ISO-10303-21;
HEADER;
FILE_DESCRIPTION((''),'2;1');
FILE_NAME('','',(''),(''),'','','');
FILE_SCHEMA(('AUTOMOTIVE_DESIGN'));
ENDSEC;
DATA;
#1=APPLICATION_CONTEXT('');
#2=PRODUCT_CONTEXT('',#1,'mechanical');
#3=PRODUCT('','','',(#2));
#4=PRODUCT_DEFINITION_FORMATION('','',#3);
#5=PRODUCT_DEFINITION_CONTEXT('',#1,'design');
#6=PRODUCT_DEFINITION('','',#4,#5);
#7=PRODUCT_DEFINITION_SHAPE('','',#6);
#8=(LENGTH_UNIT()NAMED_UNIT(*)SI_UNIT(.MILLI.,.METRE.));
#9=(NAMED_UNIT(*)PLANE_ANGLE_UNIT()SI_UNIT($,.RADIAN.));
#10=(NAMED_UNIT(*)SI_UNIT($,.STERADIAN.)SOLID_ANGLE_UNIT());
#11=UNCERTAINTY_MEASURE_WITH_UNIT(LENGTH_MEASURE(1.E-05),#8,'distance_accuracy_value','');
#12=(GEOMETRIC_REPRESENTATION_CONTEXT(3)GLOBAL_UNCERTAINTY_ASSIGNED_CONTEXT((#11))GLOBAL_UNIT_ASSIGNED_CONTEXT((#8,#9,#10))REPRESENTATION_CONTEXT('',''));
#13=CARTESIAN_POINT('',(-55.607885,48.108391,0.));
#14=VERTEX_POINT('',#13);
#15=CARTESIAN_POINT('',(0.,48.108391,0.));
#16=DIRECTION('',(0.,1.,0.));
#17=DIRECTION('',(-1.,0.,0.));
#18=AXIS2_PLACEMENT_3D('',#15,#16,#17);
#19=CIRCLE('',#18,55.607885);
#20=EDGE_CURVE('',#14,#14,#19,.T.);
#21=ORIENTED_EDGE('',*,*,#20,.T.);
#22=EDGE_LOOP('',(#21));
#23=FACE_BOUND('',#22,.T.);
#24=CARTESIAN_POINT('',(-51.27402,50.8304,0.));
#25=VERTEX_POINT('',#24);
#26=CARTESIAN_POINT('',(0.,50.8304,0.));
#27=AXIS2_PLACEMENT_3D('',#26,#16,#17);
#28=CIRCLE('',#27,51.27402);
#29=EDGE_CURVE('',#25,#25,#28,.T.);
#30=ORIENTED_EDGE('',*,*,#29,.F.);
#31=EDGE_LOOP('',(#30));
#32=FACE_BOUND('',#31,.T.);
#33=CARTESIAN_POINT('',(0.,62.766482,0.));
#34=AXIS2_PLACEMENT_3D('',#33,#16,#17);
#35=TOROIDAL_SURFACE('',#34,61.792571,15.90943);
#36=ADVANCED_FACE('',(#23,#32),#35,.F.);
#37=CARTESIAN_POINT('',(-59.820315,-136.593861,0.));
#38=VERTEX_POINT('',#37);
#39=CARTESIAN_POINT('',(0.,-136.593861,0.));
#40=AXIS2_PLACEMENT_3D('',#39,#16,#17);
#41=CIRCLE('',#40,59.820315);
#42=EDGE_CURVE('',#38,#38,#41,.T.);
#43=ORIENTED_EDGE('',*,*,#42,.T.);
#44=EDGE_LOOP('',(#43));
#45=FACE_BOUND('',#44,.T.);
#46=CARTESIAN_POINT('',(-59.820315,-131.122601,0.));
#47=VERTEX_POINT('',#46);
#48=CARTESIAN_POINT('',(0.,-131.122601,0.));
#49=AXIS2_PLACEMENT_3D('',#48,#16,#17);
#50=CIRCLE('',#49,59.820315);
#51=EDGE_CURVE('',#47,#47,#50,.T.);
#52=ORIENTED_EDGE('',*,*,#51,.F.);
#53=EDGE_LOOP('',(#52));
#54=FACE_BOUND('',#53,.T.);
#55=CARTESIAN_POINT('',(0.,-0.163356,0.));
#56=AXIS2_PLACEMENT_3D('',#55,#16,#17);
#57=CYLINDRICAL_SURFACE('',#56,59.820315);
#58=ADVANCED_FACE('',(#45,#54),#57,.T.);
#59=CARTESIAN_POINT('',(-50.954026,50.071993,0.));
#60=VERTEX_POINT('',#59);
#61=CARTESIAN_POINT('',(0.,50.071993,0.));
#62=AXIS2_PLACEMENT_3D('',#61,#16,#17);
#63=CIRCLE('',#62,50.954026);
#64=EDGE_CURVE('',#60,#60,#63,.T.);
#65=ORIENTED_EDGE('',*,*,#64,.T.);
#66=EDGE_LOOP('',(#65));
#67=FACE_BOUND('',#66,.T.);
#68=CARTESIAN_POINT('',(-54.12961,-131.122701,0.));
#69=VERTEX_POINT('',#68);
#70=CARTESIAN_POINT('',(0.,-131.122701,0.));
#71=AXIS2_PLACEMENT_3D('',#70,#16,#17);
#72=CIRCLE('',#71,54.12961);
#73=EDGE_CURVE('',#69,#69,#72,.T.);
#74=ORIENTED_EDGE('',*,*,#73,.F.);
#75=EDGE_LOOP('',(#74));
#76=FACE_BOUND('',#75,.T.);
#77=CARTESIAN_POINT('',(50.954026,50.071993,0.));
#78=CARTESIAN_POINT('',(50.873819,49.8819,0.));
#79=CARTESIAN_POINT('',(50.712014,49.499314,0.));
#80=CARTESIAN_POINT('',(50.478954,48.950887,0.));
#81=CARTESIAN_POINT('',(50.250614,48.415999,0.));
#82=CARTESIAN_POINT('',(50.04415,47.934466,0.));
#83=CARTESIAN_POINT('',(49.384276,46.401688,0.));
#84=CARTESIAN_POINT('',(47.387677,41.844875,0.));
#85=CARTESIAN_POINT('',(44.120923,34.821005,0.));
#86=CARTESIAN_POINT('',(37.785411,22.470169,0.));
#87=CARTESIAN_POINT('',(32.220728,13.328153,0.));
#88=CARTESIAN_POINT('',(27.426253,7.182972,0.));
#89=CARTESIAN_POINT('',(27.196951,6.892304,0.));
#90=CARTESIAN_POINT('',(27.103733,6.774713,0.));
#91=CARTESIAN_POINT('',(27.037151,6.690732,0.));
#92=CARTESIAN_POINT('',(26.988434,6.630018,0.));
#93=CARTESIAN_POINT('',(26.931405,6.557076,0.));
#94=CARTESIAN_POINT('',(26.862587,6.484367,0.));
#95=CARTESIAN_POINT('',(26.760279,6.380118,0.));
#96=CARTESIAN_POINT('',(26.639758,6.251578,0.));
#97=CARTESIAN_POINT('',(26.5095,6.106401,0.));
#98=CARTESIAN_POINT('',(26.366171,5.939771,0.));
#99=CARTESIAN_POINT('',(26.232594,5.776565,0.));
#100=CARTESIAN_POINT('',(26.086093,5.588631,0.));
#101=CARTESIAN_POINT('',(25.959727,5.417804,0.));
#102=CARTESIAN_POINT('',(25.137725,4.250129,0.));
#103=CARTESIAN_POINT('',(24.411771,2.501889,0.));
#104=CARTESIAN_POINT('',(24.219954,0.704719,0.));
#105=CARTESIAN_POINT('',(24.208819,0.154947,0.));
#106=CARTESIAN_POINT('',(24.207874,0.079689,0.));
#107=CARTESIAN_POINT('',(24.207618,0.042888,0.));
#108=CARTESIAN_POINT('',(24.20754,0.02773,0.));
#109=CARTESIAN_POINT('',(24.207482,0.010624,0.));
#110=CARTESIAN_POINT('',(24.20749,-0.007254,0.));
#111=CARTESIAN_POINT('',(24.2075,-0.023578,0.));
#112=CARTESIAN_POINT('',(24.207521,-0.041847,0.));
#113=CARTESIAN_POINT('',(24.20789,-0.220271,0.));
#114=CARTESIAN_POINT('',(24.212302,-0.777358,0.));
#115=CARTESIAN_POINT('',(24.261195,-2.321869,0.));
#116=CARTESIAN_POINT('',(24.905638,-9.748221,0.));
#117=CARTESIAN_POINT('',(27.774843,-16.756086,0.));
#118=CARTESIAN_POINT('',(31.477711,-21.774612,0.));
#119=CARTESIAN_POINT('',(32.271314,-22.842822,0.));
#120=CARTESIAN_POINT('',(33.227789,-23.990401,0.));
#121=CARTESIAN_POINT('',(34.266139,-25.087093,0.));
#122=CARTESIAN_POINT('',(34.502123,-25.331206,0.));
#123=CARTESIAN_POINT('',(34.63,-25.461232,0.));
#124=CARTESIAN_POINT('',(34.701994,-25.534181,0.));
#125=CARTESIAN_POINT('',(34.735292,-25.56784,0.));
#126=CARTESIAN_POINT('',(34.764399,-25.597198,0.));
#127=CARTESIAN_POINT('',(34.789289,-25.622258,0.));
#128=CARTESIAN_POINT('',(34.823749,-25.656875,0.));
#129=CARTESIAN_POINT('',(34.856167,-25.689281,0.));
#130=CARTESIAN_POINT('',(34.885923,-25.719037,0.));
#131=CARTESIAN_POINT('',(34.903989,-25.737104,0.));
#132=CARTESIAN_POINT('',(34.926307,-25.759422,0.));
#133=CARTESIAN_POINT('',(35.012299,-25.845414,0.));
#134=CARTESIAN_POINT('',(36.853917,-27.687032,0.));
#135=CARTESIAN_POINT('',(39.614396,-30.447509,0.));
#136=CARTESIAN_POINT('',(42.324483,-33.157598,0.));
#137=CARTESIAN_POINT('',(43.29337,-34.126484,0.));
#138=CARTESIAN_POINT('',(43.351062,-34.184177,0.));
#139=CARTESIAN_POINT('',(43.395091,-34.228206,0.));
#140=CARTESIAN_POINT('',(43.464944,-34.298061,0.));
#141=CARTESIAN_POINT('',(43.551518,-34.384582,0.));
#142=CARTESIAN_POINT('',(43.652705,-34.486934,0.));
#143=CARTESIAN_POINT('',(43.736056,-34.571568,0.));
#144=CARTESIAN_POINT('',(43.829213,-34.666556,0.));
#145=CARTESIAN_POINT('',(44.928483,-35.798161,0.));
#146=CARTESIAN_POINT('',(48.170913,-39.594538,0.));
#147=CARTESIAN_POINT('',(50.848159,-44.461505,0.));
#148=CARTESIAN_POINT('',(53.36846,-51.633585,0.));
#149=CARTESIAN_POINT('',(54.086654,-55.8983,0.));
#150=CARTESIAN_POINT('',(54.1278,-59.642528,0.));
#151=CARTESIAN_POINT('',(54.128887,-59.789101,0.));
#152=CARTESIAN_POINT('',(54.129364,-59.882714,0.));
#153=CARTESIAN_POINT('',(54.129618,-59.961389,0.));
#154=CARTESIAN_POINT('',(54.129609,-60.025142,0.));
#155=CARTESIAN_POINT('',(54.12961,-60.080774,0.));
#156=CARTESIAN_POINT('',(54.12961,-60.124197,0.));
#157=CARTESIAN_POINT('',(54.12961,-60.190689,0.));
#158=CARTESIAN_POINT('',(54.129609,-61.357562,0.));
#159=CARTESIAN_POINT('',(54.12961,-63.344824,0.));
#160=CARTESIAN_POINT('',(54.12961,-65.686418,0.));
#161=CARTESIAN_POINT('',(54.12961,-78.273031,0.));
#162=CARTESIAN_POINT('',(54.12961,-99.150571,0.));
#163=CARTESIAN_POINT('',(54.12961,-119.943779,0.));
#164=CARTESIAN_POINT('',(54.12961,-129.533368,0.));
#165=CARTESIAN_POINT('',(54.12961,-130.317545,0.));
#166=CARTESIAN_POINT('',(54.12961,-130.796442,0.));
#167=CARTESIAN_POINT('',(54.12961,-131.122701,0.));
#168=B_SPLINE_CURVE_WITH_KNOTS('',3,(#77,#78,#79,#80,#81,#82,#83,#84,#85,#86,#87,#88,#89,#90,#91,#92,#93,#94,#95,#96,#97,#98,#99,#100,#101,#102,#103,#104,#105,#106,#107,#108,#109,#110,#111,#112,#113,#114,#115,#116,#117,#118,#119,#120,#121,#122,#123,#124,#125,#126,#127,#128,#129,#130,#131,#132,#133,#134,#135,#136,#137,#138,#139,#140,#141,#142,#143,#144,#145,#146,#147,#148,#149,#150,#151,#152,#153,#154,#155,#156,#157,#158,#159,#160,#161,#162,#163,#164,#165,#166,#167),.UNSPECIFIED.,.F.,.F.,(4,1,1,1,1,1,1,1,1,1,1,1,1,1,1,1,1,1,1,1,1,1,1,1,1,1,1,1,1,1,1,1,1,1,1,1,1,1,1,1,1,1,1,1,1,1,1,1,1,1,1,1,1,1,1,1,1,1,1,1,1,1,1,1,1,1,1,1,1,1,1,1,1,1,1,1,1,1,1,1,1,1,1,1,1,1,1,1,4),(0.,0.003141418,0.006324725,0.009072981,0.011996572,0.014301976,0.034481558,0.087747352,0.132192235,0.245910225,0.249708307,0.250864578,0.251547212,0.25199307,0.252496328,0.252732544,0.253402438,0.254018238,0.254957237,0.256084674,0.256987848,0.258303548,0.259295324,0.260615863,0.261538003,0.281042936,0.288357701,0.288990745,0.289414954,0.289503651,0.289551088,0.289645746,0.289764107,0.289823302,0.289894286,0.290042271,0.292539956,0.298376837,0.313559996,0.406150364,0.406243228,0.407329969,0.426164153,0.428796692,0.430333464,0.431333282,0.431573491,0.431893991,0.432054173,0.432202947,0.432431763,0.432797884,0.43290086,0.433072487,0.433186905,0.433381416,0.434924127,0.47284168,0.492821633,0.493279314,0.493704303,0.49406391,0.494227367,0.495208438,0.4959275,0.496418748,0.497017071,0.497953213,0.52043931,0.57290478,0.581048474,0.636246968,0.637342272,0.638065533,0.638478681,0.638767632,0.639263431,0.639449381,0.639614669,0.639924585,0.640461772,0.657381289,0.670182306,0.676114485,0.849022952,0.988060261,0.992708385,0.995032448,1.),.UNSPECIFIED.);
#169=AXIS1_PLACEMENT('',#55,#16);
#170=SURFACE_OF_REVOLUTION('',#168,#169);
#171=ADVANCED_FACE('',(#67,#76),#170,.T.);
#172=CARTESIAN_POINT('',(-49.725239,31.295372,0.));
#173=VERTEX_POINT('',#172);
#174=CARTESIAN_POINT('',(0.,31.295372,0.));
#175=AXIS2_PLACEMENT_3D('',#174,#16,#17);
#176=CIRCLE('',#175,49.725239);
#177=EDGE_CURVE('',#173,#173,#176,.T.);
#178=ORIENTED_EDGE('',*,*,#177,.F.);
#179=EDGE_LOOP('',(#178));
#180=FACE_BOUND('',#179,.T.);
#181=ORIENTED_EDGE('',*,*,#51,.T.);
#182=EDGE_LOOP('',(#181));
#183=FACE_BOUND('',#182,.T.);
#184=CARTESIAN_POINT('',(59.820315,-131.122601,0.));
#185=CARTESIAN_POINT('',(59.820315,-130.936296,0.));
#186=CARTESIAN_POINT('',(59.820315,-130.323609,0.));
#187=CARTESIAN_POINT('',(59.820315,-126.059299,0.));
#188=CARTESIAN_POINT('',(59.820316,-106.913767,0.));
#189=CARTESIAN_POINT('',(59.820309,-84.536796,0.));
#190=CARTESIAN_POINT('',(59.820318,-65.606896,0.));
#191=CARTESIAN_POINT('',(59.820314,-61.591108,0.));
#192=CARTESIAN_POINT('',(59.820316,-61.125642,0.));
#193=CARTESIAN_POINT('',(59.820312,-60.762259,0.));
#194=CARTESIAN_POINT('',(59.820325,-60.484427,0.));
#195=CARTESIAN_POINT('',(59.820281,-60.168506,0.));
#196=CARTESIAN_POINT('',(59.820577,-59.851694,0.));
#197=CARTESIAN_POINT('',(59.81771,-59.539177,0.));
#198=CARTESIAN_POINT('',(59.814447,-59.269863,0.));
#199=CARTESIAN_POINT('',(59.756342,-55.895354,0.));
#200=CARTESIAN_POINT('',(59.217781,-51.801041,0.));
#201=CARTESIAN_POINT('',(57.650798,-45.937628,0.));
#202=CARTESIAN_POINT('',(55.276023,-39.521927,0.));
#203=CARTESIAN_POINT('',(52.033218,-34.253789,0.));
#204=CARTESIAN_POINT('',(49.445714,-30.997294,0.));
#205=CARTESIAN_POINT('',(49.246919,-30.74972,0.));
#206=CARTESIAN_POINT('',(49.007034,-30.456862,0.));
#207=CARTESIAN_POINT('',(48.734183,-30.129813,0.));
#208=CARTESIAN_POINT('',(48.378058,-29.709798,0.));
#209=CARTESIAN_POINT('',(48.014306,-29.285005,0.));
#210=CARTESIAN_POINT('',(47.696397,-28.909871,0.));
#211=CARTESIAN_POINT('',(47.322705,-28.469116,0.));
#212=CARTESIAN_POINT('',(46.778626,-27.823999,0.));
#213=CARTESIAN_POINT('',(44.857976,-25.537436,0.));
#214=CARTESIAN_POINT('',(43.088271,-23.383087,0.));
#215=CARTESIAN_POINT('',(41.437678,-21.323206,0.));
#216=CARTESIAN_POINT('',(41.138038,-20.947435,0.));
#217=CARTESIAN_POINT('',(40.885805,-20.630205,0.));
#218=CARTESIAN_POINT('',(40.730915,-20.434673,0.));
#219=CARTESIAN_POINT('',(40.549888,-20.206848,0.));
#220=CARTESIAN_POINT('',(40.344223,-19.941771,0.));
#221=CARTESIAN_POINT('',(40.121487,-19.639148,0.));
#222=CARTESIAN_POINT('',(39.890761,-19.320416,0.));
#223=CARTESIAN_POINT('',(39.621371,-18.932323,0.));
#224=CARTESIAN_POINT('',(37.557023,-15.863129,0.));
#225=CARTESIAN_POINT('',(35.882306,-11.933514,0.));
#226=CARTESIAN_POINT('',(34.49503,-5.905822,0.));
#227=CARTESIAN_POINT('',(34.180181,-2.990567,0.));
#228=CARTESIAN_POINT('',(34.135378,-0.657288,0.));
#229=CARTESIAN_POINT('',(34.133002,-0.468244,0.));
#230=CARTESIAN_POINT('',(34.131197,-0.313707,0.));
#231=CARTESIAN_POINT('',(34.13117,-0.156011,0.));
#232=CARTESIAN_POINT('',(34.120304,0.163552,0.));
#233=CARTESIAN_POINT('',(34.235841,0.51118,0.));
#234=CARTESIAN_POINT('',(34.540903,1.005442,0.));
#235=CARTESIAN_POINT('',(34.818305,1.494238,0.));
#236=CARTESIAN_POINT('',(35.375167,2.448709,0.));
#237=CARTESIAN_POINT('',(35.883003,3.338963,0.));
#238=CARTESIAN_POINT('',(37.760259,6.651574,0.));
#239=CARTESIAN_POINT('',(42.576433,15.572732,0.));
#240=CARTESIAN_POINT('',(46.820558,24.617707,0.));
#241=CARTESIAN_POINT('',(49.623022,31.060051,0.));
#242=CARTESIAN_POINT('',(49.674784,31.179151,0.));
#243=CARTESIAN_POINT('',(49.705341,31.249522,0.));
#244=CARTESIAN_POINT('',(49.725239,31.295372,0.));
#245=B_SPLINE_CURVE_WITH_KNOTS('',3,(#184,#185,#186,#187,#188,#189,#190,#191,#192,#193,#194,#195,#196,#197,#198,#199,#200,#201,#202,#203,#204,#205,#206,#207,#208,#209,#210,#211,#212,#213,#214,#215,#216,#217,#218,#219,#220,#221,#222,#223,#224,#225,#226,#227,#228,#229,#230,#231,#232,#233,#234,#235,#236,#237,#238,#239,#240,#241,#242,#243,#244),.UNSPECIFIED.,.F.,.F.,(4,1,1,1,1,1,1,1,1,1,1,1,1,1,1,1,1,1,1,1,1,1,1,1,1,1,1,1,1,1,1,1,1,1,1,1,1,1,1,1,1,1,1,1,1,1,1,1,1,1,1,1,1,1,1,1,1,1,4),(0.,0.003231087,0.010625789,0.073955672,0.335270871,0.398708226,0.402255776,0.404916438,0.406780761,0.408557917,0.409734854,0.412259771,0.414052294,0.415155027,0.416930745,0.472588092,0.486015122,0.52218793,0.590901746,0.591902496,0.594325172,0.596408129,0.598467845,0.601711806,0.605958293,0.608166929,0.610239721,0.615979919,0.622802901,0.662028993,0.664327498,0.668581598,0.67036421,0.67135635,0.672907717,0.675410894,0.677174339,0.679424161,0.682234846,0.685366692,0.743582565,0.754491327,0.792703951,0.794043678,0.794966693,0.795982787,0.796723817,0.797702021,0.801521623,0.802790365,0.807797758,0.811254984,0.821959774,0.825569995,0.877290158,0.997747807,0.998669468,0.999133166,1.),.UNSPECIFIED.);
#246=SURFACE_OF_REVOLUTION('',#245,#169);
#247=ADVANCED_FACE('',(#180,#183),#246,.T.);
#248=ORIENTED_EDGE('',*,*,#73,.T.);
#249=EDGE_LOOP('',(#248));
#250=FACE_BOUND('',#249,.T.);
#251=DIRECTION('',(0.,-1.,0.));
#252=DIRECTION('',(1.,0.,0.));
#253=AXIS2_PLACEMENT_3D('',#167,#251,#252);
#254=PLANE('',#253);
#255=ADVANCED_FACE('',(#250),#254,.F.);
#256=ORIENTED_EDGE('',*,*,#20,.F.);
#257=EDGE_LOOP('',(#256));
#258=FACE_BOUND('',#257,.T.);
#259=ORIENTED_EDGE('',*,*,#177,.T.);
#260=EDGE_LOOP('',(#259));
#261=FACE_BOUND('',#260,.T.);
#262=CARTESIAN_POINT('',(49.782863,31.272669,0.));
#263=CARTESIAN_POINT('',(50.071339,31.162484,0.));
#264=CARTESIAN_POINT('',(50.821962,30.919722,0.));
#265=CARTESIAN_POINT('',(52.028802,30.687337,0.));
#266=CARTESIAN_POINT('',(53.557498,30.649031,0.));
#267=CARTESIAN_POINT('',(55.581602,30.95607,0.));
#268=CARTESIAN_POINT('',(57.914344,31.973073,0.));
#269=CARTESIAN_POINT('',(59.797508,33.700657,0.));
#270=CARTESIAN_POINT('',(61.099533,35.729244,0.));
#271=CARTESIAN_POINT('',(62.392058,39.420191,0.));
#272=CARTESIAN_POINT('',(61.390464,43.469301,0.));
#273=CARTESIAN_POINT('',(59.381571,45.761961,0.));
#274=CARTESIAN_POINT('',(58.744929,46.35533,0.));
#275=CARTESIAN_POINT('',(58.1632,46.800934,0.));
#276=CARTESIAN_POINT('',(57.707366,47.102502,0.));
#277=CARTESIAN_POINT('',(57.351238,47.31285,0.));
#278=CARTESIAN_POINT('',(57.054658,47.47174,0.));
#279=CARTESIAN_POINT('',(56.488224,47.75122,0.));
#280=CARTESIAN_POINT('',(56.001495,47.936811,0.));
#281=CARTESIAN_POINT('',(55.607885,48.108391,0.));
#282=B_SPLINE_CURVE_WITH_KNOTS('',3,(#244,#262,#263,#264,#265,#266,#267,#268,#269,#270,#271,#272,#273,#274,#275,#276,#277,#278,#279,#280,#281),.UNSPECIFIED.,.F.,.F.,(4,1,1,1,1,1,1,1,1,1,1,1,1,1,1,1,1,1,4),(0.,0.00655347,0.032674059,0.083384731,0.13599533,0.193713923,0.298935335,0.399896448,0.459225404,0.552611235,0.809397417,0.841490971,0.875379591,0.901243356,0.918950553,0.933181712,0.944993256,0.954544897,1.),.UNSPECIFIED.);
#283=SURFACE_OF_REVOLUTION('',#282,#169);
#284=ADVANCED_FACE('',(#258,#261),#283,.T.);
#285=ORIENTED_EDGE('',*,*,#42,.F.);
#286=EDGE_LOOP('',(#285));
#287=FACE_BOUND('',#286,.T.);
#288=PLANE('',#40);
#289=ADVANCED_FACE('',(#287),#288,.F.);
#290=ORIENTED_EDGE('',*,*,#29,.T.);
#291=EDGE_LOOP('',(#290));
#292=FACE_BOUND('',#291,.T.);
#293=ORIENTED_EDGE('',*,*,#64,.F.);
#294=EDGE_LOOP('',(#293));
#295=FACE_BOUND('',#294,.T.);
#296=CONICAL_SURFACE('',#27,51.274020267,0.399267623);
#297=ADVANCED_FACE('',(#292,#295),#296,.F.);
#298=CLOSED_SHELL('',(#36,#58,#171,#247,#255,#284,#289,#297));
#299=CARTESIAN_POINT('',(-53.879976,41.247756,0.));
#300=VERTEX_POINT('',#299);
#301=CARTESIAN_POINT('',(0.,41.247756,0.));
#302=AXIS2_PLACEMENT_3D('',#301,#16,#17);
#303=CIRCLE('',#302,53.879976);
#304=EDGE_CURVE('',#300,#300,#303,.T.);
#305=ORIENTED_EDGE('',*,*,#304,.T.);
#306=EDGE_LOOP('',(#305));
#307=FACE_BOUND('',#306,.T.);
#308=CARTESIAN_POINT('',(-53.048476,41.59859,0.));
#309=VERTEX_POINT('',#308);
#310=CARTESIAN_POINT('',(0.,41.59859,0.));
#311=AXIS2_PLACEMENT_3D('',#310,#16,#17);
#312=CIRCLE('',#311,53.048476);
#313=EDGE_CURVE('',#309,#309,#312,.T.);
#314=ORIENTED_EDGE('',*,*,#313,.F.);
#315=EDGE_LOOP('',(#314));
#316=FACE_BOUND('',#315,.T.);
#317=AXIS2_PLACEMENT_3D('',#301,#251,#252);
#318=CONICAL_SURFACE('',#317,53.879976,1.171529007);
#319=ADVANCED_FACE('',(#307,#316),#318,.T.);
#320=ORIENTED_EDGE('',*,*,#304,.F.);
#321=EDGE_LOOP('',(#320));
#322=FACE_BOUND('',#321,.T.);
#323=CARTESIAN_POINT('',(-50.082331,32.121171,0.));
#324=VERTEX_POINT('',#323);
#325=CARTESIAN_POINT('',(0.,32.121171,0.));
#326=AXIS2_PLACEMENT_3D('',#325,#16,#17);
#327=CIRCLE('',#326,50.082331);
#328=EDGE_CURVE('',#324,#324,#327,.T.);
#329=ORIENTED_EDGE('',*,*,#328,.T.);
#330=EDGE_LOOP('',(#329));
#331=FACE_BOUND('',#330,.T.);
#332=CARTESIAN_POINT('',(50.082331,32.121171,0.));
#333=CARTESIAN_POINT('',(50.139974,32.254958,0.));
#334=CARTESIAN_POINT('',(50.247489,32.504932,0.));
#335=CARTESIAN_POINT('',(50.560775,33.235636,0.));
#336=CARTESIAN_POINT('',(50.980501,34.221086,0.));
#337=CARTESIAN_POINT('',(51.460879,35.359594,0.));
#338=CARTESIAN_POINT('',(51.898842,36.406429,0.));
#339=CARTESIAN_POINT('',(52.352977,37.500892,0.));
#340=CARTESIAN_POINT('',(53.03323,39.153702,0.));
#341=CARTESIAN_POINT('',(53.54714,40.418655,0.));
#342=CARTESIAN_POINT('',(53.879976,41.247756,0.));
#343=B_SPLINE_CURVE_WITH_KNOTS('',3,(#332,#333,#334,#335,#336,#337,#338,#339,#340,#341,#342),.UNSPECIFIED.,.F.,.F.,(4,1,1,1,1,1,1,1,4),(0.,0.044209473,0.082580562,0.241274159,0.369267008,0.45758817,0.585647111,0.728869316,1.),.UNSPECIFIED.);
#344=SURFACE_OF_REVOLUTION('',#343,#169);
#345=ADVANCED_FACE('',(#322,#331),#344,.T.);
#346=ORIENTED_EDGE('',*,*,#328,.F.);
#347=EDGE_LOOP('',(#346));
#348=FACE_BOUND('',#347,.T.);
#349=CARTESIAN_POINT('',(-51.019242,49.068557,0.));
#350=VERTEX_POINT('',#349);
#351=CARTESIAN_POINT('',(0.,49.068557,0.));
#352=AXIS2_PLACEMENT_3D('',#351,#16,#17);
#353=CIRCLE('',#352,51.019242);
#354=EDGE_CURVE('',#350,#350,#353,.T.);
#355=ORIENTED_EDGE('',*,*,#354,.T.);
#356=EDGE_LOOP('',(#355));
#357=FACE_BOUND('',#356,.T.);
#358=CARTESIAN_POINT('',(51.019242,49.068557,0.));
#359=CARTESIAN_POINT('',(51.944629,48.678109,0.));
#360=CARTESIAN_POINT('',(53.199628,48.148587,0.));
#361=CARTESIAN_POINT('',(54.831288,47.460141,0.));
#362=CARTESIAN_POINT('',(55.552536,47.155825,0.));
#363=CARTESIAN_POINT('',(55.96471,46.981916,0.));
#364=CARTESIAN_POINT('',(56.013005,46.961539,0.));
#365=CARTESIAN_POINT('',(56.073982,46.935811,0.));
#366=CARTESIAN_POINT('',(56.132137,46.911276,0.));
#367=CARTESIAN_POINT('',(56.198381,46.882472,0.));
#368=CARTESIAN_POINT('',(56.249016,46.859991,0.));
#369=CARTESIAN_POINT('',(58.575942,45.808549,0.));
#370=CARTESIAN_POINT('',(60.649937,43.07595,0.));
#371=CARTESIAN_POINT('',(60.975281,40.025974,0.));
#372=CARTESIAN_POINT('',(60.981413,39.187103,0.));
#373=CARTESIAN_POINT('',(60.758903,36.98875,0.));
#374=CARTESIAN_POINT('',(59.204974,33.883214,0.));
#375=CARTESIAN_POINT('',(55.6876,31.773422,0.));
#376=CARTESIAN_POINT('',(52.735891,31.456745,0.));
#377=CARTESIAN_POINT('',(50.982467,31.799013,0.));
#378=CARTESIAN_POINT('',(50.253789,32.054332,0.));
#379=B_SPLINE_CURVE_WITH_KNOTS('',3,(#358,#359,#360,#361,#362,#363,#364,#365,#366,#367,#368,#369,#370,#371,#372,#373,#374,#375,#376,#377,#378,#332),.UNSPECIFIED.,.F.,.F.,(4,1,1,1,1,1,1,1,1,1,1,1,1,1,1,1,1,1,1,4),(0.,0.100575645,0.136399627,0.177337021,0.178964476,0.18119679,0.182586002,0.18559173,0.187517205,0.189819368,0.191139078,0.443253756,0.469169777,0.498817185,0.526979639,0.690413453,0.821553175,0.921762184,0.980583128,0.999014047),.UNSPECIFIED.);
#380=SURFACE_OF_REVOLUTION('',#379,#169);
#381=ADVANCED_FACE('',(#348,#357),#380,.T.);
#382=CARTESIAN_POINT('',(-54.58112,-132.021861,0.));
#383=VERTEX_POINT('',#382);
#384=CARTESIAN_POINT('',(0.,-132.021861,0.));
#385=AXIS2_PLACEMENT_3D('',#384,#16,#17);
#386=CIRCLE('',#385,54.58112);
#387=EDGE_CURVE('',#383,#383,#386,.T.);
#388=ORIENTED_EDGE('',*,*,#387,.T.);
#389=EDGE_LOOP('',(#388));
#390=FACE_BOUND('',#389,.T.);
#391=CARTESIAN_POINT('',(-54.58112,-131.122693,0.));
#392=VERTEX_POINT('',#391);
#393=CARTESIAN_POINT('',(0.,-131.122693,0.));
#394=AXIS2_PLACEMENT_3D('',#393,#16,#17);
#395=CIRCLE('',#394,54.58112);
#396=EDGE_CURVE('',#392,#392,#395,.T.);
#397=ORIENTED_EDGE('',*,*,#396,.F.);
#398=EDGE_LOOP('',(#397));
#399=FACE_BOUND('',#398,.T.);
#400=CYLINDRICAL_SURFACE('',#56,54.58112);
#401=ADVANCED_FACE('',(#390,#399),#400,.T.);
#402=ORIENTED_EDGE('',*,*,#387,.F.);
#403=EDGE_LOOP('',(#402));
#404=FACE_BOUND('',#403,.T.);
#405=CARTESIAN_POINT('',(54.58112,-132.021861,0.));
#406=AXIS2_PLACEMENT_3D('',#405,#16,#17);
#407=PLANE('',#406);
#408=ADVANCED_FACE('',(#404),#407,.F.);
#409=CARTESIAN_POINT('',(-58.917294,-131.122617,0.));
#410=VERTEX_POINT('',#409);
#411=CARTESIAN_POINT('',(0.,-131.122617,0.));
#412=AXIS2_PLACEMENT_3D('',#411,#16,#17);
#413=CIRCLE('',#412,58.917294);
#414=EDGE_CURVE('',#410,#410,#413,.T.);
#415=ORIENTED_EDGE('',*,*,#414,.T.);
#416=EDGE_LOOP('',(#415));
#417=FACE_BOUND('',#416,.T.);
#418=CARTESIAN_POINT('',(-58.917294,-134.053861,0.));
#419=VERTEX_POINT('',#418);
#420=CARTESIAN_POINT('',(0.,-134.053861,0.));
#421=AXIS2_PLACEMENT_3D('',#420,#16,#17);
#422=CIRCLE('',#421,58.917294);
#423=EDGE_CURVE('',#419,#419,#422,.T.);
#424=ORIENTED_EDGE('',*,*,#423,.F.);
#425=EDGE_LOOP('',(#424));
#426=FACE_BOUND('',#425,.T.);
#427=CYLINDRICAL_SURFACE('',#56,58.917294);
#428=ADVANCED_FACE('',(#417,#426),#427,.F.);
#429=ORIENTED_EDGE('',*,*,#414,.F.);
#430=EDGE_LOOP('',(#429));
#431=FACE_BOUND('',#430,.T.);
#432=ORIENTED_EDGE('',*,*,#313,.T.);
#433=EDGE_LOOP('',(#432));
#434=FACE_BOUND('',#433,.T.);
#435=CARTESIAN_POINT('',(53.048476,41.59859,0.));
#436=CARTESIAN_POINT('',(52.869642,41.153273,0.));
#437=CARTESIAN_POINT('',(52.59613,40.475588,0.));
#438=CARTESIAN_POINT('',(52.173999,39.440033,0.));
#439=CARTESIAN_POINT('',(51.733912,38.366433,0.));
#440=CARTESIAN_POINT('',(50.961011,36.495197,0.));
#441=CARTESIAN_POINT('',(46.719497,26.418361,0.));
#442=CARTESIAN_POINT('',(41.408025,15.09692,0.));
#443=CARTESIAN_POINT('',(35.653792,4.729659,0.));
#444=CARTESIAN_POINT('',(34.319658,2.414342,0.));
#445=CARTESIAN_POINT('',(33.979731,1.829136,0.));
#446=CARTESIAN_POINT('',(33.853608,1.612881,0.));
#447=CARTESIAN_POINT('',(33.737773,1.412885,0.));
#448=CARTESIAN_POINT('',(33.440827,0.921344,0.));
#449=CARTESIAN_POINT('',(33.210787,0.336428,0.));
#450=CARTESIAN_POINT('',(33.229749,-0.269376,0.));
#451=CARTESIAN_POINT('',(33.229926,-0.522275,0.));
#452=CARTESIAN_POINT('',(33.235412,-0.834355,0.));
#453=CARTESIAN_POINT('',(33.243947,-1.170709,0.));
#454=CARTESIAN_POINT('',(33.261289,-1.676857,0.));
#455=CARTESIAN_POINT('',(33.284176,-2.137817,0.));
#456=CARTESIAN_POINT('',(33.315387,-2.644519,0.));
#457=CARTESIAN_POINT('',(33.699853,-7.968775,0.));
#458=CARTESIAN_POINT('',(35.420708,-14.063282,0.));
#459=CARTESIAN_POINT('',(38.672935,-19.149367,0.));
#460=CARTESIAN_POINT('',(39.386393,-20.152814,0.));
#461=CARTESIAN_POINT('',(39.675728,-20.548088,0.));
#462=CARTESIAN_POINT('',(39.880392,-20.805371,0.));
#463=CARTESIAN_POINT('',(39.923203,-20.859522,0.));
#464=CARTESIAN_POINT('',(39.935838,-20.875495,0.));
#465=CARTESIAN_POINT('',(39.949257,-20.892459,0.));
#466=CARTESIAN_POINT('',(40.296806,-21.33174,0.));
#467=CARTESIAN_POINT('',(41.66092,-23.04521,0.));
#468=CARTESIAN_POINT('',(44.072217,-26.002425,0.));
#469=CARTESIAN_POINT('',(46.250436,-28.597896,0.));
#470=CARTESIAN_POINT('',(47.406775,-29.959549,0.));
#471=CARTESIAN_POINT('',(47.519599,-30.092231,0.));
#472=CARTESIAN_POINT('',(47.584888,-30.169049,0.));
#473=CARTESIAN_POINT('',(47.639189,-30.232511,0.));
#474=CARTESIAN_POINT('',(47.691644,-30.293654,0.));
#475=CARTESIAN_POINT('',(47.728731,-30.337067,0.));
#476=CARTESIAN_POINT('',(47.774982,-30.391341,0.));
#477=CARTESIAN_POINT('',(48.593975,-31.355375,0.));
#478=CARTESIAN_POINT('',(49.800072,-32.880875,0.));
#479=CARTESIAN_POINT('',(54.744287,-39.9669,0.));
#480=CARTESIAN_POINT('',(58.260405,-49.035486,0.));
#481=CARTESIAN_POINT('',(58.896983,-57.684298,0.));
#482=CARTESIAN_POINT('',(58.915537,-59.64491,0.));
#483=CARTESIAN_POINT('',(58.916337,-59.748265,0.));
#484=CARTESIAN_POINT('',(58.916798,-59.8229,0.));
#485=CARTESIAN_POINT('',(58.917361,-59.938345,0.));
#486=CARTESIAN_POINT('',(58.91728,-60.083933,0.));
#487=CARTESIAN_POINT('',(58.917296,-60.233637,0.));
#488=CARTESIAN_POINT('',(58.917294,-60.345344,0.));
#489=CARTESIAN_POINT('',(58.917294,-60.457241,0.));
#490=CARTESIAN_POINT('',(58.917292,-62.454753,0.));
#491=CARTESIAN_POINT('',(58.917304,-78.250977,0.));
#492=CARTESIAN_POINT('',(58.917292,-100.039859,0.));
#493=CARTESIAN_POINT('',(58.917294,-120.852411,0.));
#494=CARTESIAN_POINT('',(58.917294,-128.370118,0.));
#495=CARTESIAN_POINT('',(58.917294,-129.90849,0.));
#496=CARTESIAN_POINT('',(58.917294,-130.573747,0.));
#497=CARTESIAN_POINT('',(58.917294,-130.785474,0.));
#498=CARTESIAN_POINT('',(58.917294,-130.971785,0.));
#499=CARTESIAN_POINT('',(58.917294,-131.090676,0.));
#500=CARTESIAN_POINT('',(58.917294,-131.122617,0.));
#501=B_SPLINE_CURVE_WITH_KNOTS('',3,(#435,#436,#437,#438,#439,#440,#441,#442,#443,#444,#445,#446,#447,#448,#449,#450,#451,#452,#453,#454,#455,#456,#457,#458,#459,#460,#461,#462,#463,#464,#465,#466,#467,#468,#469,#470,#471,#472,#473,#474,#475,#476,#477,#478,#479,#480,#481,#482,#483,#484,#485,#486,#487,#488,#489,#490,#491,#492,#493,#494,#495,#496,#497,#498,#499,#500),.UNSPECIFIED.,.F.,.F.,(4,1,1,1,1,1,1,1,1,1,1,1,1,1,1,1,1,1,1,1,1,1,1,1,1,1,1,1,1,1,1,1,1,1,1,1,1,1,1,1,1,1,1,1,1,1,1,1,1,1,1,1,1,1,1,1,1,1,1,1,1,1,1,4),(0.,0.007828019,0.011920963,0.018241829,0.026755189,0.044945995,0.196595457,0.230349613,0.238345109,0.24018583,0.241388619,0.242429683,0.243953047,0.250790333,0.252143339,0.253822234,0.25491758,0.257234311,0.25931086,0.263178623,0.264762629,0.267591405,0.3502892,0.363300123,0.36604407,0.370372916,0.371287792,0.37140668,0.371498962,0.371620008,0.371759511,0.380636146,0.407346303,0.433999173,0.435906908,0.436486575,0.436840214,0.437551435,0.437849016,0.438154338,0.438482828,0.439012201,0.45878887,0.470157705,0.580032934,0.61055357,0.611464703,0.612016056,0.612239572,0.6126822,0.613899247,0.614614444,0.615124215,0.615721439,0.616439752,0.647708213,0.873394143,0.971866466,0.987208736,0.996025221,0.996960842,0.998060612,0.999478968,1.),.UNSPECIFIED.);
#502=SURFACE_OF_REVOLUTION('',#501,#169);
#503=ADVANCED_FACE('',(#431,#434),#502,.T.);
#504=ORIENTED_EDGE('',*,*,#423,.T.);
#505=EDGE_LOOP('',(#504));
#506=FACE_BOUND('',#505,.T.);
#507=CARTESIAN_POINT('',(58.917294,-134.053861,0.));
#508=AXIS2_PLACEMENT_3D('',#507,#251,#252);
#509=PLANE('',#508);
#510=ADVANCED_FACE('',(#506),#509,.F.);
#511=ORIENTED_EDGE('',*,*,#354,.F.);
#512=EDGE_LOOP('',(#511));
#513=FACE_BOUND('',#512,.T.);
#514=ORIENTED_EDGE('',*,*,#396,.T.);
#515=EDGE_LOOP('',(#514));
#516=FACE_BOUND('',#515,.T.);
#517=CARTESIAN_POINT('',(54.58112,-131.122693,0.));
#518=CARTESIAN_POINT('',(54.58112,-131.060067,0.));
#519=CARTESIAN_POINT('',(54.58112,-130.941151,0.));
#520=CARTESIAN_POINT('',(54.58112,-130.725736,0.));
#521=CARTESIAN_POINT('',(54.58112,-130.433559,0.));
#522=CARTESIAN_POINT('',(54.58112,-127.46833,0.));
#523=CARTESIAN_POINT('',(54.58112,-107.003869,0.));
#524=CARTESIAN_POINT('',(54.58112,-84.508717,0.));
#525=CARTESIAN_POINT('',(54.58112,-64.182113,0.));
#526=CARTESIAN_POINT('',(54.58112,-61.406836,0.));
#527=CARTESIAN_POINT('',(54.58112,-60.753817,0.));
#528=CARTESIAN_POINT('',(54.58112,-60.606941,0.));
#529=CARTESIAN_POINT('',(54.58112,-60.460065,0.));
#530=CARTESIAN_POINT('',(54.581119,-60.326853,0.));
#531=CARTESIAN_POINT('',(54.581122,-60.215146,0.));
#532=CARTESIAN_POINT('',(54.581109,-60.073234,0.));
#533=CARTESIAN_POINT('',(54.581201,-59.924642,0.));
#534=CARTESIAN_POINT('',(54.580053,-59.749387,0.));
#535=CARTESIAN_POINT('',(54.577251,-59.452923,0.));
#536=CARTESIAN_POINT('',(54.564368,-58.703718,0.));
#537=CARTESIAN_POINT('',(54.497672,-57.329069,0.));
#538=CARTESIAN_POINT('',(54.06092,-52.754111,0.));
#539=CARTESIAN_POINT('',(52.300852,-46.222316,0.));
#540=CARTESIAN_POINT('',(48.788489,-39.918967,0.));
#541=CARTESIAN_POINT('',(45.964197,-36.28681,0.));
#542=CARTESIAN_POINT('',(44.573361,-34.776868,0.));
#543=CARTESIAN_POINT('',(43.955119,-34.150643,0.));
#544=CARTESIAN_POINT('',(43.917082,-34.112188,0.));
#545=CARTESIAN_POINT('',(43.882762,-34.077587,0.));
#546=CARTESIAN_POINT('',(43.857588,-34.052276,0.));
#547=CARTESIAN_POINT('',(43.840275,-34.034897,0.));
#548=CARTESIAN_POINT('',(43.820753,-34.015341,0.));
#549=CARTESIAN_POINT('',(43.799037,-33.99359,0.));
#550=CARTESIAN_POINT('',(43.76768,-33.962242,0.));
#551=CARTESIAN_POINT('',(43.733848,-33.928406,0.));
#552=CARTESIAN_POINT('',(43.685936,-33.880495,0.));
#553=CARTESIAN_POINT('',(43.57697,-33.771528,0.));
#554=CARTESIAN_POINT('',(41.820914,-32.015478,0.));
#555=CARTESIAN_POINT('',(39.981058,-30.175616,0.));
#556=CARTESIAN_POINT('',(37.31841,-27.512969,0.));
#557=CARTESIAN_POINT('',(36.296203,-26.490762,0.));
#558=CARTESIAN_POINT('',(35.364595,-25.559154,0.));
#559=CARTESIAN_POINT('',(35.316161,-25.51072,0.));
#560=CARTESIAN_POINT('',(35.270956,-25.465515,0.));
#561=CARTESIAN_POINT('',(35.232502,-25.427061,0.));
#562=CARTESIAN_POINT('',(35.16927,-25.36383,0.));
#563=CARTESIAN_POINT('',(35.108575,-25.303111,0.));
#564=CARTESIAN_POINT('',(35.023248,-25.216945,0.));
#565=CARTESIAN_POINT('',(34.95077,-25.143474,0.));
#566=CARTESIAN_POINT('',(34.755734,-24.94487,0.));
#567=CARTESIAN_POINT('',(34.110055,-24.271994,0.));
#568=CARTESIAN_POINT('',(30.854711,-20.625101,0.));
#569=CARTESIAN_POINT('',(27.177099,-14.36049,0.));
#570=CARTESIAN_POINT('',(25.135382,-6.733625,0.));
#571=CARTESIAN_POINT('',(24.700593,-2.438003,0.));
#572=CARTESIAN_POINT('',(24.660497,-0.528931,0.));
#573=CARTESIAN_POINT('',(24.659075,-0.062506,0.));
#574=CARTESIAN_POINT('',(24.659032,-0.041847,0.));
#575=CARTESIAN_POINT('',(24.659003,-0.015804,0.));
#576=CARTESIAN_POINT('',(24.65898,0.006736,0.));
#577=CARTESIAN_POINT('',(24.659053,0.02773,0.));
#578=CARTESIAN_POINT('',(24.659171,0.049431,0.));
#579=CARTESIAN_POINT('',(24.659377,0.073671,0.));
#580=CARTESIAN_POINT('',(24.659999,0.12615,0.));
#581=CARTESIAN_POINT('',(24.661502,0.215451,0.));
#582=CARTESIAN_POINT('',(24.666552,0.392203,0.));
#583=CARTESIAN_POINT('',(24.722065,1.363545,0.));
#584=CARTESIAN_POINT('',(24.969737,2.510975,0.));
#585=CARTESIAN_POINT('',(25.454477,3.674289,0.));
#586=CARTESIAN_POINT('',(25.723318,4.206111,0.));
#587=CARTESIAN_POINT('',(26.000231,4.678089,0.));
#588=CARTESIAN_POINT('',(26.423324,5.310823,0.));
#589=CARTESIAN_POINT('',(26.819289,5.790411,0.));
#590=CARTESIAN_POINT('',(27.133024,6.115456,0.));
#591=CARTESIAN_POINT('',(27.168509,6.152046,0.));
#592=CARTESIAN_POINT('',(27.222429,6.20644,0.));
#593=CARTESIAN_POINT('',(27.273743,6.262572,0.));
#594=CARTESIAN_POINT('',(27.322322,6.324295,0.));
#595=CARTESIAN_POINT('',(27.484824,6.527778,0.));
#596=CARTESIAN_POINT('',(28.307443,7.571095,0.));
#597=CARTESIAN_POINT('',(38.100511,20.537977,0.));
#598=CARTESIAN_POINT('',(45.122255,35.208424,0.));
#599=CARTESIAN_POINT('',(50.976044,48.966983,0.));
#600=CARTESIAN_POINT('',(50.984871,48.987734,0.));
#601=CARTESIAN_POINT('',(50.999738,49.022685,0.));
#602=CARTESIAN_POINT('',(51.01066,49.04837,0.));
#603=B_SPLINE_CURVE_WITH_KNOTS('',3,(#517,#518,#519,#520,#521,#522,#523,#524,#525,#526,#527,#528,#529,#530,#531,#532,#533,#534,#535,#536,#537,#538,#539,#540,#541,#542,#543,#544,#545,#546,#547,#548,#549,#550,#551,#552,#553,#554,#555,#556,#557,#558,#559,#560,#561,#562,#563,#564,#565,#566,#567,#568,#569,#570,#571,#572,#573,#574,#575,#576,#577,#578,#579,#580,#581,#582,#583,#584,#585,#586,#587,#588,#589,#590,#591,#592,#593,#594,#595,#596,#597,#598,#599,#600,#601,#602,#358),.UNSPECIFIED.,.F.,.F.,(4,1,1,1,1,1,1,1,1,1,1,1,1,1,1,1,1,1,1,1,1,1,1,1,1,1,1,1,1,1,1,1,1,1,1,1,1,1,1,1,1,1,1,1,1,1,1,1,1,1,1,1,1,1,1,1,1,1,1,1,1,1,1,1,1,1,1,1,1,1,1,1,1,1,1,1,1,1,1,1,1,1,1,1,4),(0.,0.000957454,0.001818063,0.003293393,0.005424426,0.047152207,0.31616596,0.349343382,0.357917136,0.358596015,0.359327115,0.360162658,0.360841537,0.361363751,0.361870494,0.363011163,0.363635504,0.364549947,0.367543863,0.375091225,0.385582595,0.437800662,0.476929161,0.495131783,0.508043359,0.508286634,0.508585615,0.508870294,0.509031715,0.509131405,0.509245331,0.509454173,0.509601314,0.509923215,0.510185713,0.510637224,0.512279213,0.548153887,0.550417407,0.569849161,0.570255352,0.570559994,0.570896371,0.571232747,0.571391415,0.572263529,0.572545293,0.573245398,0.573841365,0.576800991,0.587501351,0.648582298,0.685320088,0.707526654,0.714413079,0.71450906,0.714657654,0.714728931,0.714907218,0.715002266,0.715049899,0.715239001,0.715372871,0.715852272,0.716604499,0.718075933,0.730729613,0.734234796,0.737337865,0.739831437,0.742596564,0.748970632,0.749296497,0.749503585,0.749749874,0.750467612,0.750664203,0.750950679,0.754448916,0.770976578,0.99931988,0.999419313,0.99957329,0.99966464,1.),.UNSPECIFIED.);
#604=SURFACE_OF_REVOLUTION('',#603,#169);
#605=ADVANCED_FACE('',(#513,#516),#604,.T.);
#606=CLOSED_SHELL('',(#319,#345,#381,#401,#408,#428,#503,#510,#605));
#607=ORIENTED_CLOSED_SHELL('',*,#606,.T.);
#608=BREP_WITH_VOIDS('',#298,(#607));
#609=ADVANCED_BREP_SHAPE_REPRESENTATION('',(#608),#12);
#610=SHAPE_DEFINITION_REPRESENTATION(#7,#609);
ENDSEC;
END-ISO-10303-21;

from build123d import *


with BuildPart() as part:
    # Sketch1 → Revolve1 (revolve)
    with BuildSketch(Plane.XY, mode=Mode.PRIVATE) as revolve1_sk:
        with BuildLine():
            Line((53.048476388, 41.598590087), (53.879976, 41.247755591))
            add(Edge.make_bspline(
                [(53.879976, 41.247755591), (53.54713967, 40.418655125), (53.033230018, 39.153702144), (52.352976744, 37.500891631), (51.898842498, 36.406429012), (51.460878956, 35.359594242), (50.980501104, 34.221085563), (50.560774604, 33.235635596), (50.247489444, 32.504931791), (50.139974257, 32.254958246), (50.082331454, 32.121171469)],
                knots=[0, 0, 0, 0, 0.271130684, 0.414352889, 0.54241183, 0.630732992, 0.758725841, 0.917419438, 0.955790527, 1, 1, 1, 1], degree=3))
            add(Edge.make_bspline(
                [(51.01924215, 49.068556666), (51.944628514, 48.678108529), (53.199627802, 48.148586957), (54.831287787, 47.460140811), (55.552535681, 47.155825028), (55.964709733, 46.981916314), (56.013005173, 46.961539155), (56.073981548, 46.935810954), (56.132137164, 46.911276294), (56.198380537, 46.882471913), (56.249016454, 46.859991057), (58.575941812, 45.808548957), (60.649937191, 43.075950367), (60.97528123, 40.02597412), (60.981412847, 39.187103061), (60.758902856, 36.988750035), (59.20497443, 33.88321425), (55.687599608, 31.773422358), (52.735891109, 31.456744673), (50.982467291, 31.799013186), (50.253789409, 32.0543323), (50.082331454, 32.121171469)],
                knots=[0, 0, 0, 0, 0.100575645, 0.136399627, 0.177337021, 0.178964476, 0.18119679, 0.182586002, 0.18559173, 0.187517205, 0.189819368, 0.191139078, 0.443253756, 0.469169777, 0.498817185, 0.526979639, 0.690413453, 0.821553175, 0.921762184, 0.980583128, 0.999014047, 0.999014047, 0.999014047, 0.999014047], degree=3))
            add(Edge.make_bspline(
                [(51.01924215, 49.068556666), (51.010659799, 49.048369962), (50.9997378, 49.022685351), (50.984871471, 48.987733869), (50.97604411, 48.966983261), (45.122255465, 35.208423563), (38.10051081, 20.537976966), (28.307442634, 7.571095489), (27.48482367, 6.527778145), (27.322322068, 6.324295316), (27.27374288, 6.26257177), (27.222429416, 6.206440047), (27.168508971, 6.152046264), (27.133023661, 6.115455668), (26.819289025, 5.790410517), (26.4233238, 5.310823059), (26.000230951, 4.67808898), (25.723318033, 4.206110849), (25.454476545, 3.674289009), (24.969736695, 2.510974739), (24.722065286, 1.363545117), (24.666552366, 0.392202693), (24.661502281, 0.215451196), (24.659998635, 0.126149502), (24.659377242, 0.073671207), (24.659170753, 0.049431392), (24.659053026, 0.027730381), (24.658980315, 0.006736482), (24.659003253, -0.015804059), (24.659031785, -0.041846915), (24.659075075, -0.06250623), (24.660496541, -0.528930626), (24.700592744, -2.438003406), (25.135382484, -6.733624643), (27.177099013, -14.360489649), (30.854711407, -20.625100536), (34.110055472, -24.271994311), (34.755733689, -24.94486992), (34.950769935, -25.14347401), (35.023247768, -25.216945042), (35.108575333, -25.303111357), (35.169269766, -25.363829673), (35.232502494, -25.427060802), (35.27095605, -25.465514751), (35.31616128, -25.510719856), (35.364595375, -25.559153983), (36.296203144, -26.490761605), (37.318410129, -27.512968784), (39.98105761, -30.17561609), (41.820914277, -32.015477938), (43.5769697, -33.77152777), (43.685935665, -33.880494679), (43.733847859, -33.928405512), (43.767679825, -33.962241906), (43.799037325, -33.993589582), (43.820753269, -34.015340819), (43.840274732, -34.034897309), (43.857587754, -34.052275603), (43.882762115, -34.077587343), (43.917082066, -34.112187736), (43.955118662, -34.150642689), (44.573361311, -34.77686849), (45.964196629, -36.286809976), (48.788489467, -39.918966592), (52.300852474, -46.222316376), (54.060920114, -52.754110984), (54.497671587, -57.329069237), (54.564367964, -58.7037177), (54.577250817, -59.452923468), (54.580052674, -59.749386702), (54.581201144, -59.924642036), (54.581109127, -60.073234436), (54.581122186, -60.215145849), (54.581119475, -60.326852507), (54.581120464, -60.460065401), (54.581120127, -60.606941171), (54.581120209, -60.753816936), (54.581120136, -61.406835884), (54.581120297, -64.182113341), (54.581119831, -84.508717001), (54.581120219, -107.003869003), (54.581120194, -127.468329682), (54.581120194, -130.433558694), (54.581120194, -130.725735711), (54.581120194, -130.941150947), (54.581120194, -131.060067351), (54.581120194, -131.12269277)],
                knots=[0, 0, 0, 0, 0.00033536, 0.00042671, 0.000580687, 0.00068012, 0.229023422, 0.245551084, 0.249049321, 0.249335797, 0.249532388, 0.250250126, 0.250496415, 0.250703503, 0.251029368, 0.257403436, 0.260168563, 0.262662135, 0.265765204, 0.269270387, 0.281924067, 0.283395501, 0.284147728, 0.284627129, 0.284760999, 0.284950101, 0.284997734, 0.285092782, 0.285271069, 0.285342346, 0.28549094, 0.285586921, 0.292473346, 0.314679912, 0.351417702, 0.412498649, 0.423199009, 0.426158635, 0.426754602, 0.427454707, 0.427736471, 0.428608585, 0.428767253, 0.429103629, 0.429440006, 0.429744648, 0.430150839, 0.449582593, 0.451846113, 0.487720787, 0.489362776, 0.489814287, 0.490076785, 0.490398686, 0.490545827, 0.490754669, 0.490868595, 0.490968285, 0.491129706, 0.491414385, 0.491713366, 0.491956641, 0.504868217, 0.523070839, 0.562199338, 0.614417405, 0.624908775, 0.632456137, 0.635450053, 0.636364496, 0.636988837, 0.638129506, 0.638636249, 0.639158463, 0.639837342, 0.640672885, 0.641403985, 0.642082864, 0.650656618, 0.68383404, 0.952847793, 0.994575574, 0.996706607, 0.998181937, 0.999042546, 1, 1, 1, 1], degree=3))
            Line((54.581120194, -131.12269277), (54.581120194, -132.021860641))
            Line((54.581120194, -132.021860641), (0, -132.021860641))
            Line((0, -132.021860641), (0, -131.122700641))
            Line((0, -131.122700641), (54.129609794, -131.122700641))
            add(Edge.make_bspline(
                [(50.9540256, 50.071993417), (50.873819382, 49.881899853), (50.712013805, 49.499314495), (50.478954039, 48.950886712), (50.250614244, 48.415998626), (50.044150217, 47.934465815), (49.384275912, 46.401688458), (47.387676579, 41.844875202), (44.12092331, 34.821005472), (37.785410755, 22.470169484), (32.220728451, 13.328153286), (27.426253471, 7.182971916), (27.196951124, 6.89230366), (27.103732732, 6.77471332), (27.037151416, 6.690732051), (26.988434471, 6.630017931), (26.931404544, 6.557076461), (26.862586576, 6.484366508), (26.760279055, 6.380117747), (26.639758248, 6.251577701), (26.509499906, 6.106401459), (26.366171392, 5.939771144), (26.232594219, 5.776565202), (26.086092891, 5.588630936), (25.959726509, 5.41780427), (25.137725186, 4.250129447), (24.411771434, 2.5018887), (24.219954065, 0.704718904), (24.208818587, 0.154947108), (24.207873822, 0.079689385), (24.20761838, 0.042888092), (24.207540141, 0.027730375), (24.207481869, 0.010624212), (24.207490258, -0.007254201), (24.207499847, -0.023577774), (24.207521277, -0.041846914), (24.207890257, -0.220270707), (24.212302254, -0.777357826), (24.261195453, -2.321869379), (24.905637625, -9.748221077), (27.774842596, -16.756085977), (31.477710964, -21.774612477), (32.271314333, -22.84282242), (33.227788606, -23.990401408), (34.266138841, -25.0870929), (34.502122611, -25.331205679), (34.630000028, -25.461232296), (34.701994433, -25.534180607), (34.735291707, -25.567840471), (34.764399165, -25.597197956), (34.789288767, -25.622257696), (34.823748962, -25.65687509), (34.856167117, -25.689280822), (34.885922576, -25.719037387), (34.903989341, -25.737103899), (34.926306924, -25.75942154), (35.01229943, -25.845413982), (36.853916595, -27.687031757), (39.614395549, -30.447509272), (42.324482766, -33.157598157), (43.29336958, -34.126484126), (43.35106234, -34.184177123), (43.395091434, -34.228205591), (43.464944078, -34.298060723), (43.551518026, -34.384582449), (43.652705185, -34.486933574), (43.736056274, -34.571567941), (43.829212672, -34.666556101), (44.928483106, -35.798161046), (48.170912554, -39.59453754), (50.848158596, -44.461504706), (53.368459691, -51.633585284), (54.08665386, -55.898300012), (54.127799901, -59.642527886), (54.128886895, -59.789100788), (54.129364499, -59.882713808), (54.129617534, -59.961388903), (54.129608925, -60.025142419), (54.129609911, -60.080774019), (54.129609735, -60.124197142), (54.129609829, -60.190688797), (54.12960938, -61.357562186), (54.129609939, -63.344824297), (54.129609782, -65.686417879), (54.129609884, -78.273030501), (54.12960976, -99.150571478), (54.129609795, -119.943778541), (54.129609794, -129.533368434), (54.129609794, -130.317544838), (54.129609794, -130.796442406), (54.129609794, -131.122700641)],
                knots=[0, 0, 0, 0, 0.003141418, 0.006324725, 0.009072981, 0.011996572, 0.014301976, 0.034481558, 0.087747352, 0.132192235, 0.245910225, 0.249708307, 0.250864578, 0.251547212, 0.25199307, 0.252496328, 0.252732544, 0.253402438, 0.254018238, 0.254957237, 0.256084674, 0.256987848, 0.258303548, 0.259295324, 0.260615863, 0.261538003, 0.281042936, 0.288357701, 0.288990745, 0.289414954, 0.289503651, 0.289551088, 0.289645746, 0.289764107, 0.289823302, 0.289894286, 0.290042271, 0.292539956, 0.298376837, 0.313559996, 0.406150364, 0.406243228, 0.407329969, 0.426164153, 0.428796692, 0.430333464, 0.431333282, 0.431573491, 0.431893991, 0.432054173, 0.432202947, 0.432431763, 0.432797884, 0.43290086, 0.433072487, 0.433186905, 0.433381416, 0.434924127, 0.47284168, 0.492821633, 0.493279314, 0.493704303, 0.49406391, 0.494227367, 0.495208438, 0.4959275, 0.496418748, 0.497017071, 0.497953213, 0.52043931, 0.57290478, 0.581048474, 0.636246968, 0.637342272, 0.638065533, 0.638478681, 0.638767632, 0.639263431, 0.639449381, 0.639614669, 0.639924585, 0.640461772, 0.657381289, 0.670182306, 0.676114485, 0.849022952, 0.988060261, 0.992708385, 0.995032448, 1, 1, 1, 1], degree=3))
            Line((50.9540256, 50.071993417), (51.274020267, 50.830400074))
            ThreePointArc((51.274020267, 50.830400074), (53.330782836, 49.293987657), (55.607885425, 48.108391105))
            add(Edge.make_bspline(
                [(55.607885425, 48.108391105), (56.001495268, 47.93681106), (56.488224293, 47.751219753), (57.054658191, 47.471740394), (57.351237627, 47.31285048), (57.707365671, 47.102501939), (58.163200354, 46.800933535), (58.744928821, 46.35533032), (59.381570925, 45.761960804), (61.390463502, 43.469300884), (62.392058302, 39.420190756), (61.099533388, 35.729244111), (59.797507741, 33.700656892), (57.914344096, 31.97307345), (55.581602035, 30.956069783), (53.557498297, 30.649030641), (52.02880219, 30.687337073), (50.821962122, 30.919722177), (50.071339287, 31.162483701), (49.782863329, 31.272669456), (49.725239197, 31.295372382)],
                knots=[0, 0, 0, 0, 0.045455103, 0.055006744, 0.066818288, 0.081049447, 0.098756644, 0.124620409, 0.158509029, 0.190602583, 0.447388765, 0.540774596, 0.600103552, 0.701064665, 0.806286077, 0.86400467, 0.916615269, 0.967325941, 0.99344653, 1, 1, 1, 1], degree=3))
            add(Edge.make_bspline(
                [(49.725239197, 31.295372382), (49.705341185, 31.249521907), (49.674784061, 31.179151084), (49.623021657, 31.060050858), (46.820558004, 24.617706984), (42.576432795, 15.572731927), (37.760259396, 6.651574106), (35.883003013, 3.338962511), (35.375167352, 2.448709176), (34.818305203, 1.494238074), (34.540902529, 1.00544192), (34.235841049, 0.511180091), (34.120304419, 0.163552259), (34.131169776, -0.156011067), (34.131196538, -0.313707323), (34.133001696, -0.468244283), (34.135377844, -0.657288024), (34.180180878, -2.990567278), (34.495029532, -5.905822173), (35.882306492, -11.933514002), (37.557023231, -15.863128607), (39.621371155, -18.932323409), (39.890760776, -19.320416004), (40.121487065, -19.639147699), (40.344222769, -19.941771055), (40.549887794, -20.206848001), (40.730915449, -20.43467307), (40.885804867, -20.630204734), (41.138038065, -20.947435118), (41.437678498, -21.323206274), (43.08827122, -23.383087139), (44.85797609, -25.537436133), (46.778625668, -27.823999329), (47.322704665, -28.469115517), (47.696396556, -28.909870981), (48.014305607, -29.285005316), (48.37805813, -29.709798051), (48.734183442, -30.129812883), (49.007034325, -30.456861506), (49.246919351, -30.749720433), (49.445714124, -30.99729442), (52.03321767, -34.253789487), (55.276023202, -39.521927136), (57.650798428, -45.937627581), (59.217780551, -51.8010413), (59.756342386, -55.895353706), (59.814447069, -59.269863466), (59.817709648, -59.53917678), (59.82057695, -59.851694464), (59.82028112, -60.168505858), (59.82032476, -60.484426998), (59.820311804, -60.762258761), (59.82031626, -61.125642428), (59.820314474, -61.591107675), (59.820318226, -65.606895711), (59.820308585, -84.536796226), (59.820315606, -106.913767021), (59.820314977, -126.059298687), (59.820314984, -130.323608927), (59.820314984, -130.936295712), (59.820314984, -131.122601331)],
                knots=[0, 0, 0, 0, 0.000866834, 0.001330532, 0.002252193, 0.122709842, 0.174430005, 0.178040226, 0.188745016, 0.192202242, 0.197209635, 0.198478377, 0.202297979, 0.203276183, 0.204017213, 0.205033307, 0.205956322, 0.207296049, 0.245508673, 0.256417435, 0.314633308, 0.317765154, 0.320575839, 0.322825661, 0.324589106, 0.327092283, 0.32864365, 0.32963579, 0.331418402, 0.335672502, 0.337971007, 0.377197099, 0.384020081, 0.389760279, 0.391833071, 0.394041707, 0.398288194, 0.401532155, 0.403591871, 0.405674828, 0.408097504, 0.409098254, 0.47781207, 0.513984878, 0.527411908, 0.583069255, 0.584844973, 0.585947706, 0.587740229, 0.590265146, 0.591442083, 0.593219239, 0.595083562, 0.597744224, 0.601291774, 0.664729129, 0.926044328, 0.989374211, 0.996768913, 1, 1, 1, 1], degree=3))
            Line((59.820314984, -131.122601331), (59.820314984, -136.593860641))
            Line((59.820314984, -136.593860641), (0, -136.593860641))
            Line((0, -136.593860641), (0, -134.053860641))
            Line((0, -134.053860641), (58.917294184, -134.053860641))
            Line((58.917294184, -134.053860641), (58.917294184, -131.122617085))
            add(Edge.make_bspline(
                [(53.048476388, 41.598590087), (52.869642072, 41.153272945), (52.596130272, 40.475587986), (52.173999321, 39.440032993), (51.733912349, 38.366433235), (50.96101107, 36.495197303), (46.719497385, 26.418360975), (41.4080252, 15.096920256), (35.653792496, 4.729659151), (34.319658318, 2.414342037), (33.979730718, 1.829136196), (33.853608345, 1.612880572), (33.737772974, 1.412884782), (33.440826788, 0.92134421), (33.210787065, 0.336427994), (33.229749457, -0.269375502), (33.229925795, -0.522274844), (33.235411605, -0.834355063), (33.243946802, -1.170709486), (33.261288705, -1.676856829), (33.284176247, -2.137817079), (33.315386715, -2.644519148), (33.699853395, -7.968775174), (35.42070766, -14.063282), (38.672934854, -19.149367343), (39.386393382, -20.152814383), (39.675727633, -20.548088343), (39.880391766, -20.805370509), (39.923203196, -20.859521924), (39.935838074, -20.875494791), (39.949257268, -20.892458626), (40.296805509, -21.331739853), (41.660919557, -23.045210069), (44.072216897, -26.002424901), (46.250436046, -28.597895873), (47.406775369, -29.95954913), (47.519598995, -30.09223108), (47.584887961, -30.16904937), (47.639189218, -30.232511106), (47.691644499, -30.293653599), (47.728731238, -30.337066904), (47.774981638, -30.391340666), (48.593974916, -31.355374845), (49.800072168, -32.880875187), (54.74428742, -39.966899977), (58.260405033, -49.035486494), (58.896983356, -57.684297952), (58.915537015, -59.644910178), (58.916337137, -59.748264645), (58.916797868, -59.82289999), (58.917361246, -59.938344858), (58.9172801, -60.083933287), (58.917296152, -60.233637095), (58.917293651, -60.345343745), (58.917294361, -60.457241427), (58.917291501, -62.45475282), (58.917303655, -78.250977174), (58.917292383, -100.039859257), (58.917294225, -120.852410821), (58.917294182, -128.37011832), (58.917294184, -129.908489979), (58.917294184, -130.573747364), (58.917294184, -130.785473997), (58.917294184, -130.971784872), (58.917294184, -131.090676051), (58.917294184, -131.122617085)],
                knots=[0, 0, 0, 0, 0.007828019, 0.011920963, 0.018241829, 0.026755189, 0.044945995, 0.196595457, 0.230349613, 0.238345109, 0.24018583, 0.241388619, 0.242429683, 0.243953047, 0.250790333, 0.252143339, 0.253822234, 0.25491758, 0.257234311, 0.25931086, 0.263178623, 0.264762629, 0.267591405, 0.3502892, 0.363300123, 0.36604407, 0.370372916, 0.371287792, 0.37140668, 0.371498962, 0.371620008, 0.371759511, 0.380636146, 0.407346303, 0.433999173, 0.435906908, 0.436486575, 0.436840214, 0.437551435, 0.437849016, 0.438154338, 0.438482828, 0.439012201, 0.45878887, 0.470157705, 0.580032934, 0.61055357, 0.611464703, 0.612016056, 0.612239572, 0.6126822, 0.613899247, 0.614614444, 0.615124215, 0.615721439, 0.616439752, 0.647708213, 0.873394143, 0.971866466, 0.987208736, 0.996025221, 0.996960842, 0.998060612, 0.999478968, 1, 1, 1, 1], degree=3))
        make_face()
    revolve(revolve1_sk.sketch.rotate(Axis((0, -0.163355665, 0), (0, -1, 0)), 180), axis=Axis((0, -0.163355665, 0), (0, -1, 0)))


solid = part.part
